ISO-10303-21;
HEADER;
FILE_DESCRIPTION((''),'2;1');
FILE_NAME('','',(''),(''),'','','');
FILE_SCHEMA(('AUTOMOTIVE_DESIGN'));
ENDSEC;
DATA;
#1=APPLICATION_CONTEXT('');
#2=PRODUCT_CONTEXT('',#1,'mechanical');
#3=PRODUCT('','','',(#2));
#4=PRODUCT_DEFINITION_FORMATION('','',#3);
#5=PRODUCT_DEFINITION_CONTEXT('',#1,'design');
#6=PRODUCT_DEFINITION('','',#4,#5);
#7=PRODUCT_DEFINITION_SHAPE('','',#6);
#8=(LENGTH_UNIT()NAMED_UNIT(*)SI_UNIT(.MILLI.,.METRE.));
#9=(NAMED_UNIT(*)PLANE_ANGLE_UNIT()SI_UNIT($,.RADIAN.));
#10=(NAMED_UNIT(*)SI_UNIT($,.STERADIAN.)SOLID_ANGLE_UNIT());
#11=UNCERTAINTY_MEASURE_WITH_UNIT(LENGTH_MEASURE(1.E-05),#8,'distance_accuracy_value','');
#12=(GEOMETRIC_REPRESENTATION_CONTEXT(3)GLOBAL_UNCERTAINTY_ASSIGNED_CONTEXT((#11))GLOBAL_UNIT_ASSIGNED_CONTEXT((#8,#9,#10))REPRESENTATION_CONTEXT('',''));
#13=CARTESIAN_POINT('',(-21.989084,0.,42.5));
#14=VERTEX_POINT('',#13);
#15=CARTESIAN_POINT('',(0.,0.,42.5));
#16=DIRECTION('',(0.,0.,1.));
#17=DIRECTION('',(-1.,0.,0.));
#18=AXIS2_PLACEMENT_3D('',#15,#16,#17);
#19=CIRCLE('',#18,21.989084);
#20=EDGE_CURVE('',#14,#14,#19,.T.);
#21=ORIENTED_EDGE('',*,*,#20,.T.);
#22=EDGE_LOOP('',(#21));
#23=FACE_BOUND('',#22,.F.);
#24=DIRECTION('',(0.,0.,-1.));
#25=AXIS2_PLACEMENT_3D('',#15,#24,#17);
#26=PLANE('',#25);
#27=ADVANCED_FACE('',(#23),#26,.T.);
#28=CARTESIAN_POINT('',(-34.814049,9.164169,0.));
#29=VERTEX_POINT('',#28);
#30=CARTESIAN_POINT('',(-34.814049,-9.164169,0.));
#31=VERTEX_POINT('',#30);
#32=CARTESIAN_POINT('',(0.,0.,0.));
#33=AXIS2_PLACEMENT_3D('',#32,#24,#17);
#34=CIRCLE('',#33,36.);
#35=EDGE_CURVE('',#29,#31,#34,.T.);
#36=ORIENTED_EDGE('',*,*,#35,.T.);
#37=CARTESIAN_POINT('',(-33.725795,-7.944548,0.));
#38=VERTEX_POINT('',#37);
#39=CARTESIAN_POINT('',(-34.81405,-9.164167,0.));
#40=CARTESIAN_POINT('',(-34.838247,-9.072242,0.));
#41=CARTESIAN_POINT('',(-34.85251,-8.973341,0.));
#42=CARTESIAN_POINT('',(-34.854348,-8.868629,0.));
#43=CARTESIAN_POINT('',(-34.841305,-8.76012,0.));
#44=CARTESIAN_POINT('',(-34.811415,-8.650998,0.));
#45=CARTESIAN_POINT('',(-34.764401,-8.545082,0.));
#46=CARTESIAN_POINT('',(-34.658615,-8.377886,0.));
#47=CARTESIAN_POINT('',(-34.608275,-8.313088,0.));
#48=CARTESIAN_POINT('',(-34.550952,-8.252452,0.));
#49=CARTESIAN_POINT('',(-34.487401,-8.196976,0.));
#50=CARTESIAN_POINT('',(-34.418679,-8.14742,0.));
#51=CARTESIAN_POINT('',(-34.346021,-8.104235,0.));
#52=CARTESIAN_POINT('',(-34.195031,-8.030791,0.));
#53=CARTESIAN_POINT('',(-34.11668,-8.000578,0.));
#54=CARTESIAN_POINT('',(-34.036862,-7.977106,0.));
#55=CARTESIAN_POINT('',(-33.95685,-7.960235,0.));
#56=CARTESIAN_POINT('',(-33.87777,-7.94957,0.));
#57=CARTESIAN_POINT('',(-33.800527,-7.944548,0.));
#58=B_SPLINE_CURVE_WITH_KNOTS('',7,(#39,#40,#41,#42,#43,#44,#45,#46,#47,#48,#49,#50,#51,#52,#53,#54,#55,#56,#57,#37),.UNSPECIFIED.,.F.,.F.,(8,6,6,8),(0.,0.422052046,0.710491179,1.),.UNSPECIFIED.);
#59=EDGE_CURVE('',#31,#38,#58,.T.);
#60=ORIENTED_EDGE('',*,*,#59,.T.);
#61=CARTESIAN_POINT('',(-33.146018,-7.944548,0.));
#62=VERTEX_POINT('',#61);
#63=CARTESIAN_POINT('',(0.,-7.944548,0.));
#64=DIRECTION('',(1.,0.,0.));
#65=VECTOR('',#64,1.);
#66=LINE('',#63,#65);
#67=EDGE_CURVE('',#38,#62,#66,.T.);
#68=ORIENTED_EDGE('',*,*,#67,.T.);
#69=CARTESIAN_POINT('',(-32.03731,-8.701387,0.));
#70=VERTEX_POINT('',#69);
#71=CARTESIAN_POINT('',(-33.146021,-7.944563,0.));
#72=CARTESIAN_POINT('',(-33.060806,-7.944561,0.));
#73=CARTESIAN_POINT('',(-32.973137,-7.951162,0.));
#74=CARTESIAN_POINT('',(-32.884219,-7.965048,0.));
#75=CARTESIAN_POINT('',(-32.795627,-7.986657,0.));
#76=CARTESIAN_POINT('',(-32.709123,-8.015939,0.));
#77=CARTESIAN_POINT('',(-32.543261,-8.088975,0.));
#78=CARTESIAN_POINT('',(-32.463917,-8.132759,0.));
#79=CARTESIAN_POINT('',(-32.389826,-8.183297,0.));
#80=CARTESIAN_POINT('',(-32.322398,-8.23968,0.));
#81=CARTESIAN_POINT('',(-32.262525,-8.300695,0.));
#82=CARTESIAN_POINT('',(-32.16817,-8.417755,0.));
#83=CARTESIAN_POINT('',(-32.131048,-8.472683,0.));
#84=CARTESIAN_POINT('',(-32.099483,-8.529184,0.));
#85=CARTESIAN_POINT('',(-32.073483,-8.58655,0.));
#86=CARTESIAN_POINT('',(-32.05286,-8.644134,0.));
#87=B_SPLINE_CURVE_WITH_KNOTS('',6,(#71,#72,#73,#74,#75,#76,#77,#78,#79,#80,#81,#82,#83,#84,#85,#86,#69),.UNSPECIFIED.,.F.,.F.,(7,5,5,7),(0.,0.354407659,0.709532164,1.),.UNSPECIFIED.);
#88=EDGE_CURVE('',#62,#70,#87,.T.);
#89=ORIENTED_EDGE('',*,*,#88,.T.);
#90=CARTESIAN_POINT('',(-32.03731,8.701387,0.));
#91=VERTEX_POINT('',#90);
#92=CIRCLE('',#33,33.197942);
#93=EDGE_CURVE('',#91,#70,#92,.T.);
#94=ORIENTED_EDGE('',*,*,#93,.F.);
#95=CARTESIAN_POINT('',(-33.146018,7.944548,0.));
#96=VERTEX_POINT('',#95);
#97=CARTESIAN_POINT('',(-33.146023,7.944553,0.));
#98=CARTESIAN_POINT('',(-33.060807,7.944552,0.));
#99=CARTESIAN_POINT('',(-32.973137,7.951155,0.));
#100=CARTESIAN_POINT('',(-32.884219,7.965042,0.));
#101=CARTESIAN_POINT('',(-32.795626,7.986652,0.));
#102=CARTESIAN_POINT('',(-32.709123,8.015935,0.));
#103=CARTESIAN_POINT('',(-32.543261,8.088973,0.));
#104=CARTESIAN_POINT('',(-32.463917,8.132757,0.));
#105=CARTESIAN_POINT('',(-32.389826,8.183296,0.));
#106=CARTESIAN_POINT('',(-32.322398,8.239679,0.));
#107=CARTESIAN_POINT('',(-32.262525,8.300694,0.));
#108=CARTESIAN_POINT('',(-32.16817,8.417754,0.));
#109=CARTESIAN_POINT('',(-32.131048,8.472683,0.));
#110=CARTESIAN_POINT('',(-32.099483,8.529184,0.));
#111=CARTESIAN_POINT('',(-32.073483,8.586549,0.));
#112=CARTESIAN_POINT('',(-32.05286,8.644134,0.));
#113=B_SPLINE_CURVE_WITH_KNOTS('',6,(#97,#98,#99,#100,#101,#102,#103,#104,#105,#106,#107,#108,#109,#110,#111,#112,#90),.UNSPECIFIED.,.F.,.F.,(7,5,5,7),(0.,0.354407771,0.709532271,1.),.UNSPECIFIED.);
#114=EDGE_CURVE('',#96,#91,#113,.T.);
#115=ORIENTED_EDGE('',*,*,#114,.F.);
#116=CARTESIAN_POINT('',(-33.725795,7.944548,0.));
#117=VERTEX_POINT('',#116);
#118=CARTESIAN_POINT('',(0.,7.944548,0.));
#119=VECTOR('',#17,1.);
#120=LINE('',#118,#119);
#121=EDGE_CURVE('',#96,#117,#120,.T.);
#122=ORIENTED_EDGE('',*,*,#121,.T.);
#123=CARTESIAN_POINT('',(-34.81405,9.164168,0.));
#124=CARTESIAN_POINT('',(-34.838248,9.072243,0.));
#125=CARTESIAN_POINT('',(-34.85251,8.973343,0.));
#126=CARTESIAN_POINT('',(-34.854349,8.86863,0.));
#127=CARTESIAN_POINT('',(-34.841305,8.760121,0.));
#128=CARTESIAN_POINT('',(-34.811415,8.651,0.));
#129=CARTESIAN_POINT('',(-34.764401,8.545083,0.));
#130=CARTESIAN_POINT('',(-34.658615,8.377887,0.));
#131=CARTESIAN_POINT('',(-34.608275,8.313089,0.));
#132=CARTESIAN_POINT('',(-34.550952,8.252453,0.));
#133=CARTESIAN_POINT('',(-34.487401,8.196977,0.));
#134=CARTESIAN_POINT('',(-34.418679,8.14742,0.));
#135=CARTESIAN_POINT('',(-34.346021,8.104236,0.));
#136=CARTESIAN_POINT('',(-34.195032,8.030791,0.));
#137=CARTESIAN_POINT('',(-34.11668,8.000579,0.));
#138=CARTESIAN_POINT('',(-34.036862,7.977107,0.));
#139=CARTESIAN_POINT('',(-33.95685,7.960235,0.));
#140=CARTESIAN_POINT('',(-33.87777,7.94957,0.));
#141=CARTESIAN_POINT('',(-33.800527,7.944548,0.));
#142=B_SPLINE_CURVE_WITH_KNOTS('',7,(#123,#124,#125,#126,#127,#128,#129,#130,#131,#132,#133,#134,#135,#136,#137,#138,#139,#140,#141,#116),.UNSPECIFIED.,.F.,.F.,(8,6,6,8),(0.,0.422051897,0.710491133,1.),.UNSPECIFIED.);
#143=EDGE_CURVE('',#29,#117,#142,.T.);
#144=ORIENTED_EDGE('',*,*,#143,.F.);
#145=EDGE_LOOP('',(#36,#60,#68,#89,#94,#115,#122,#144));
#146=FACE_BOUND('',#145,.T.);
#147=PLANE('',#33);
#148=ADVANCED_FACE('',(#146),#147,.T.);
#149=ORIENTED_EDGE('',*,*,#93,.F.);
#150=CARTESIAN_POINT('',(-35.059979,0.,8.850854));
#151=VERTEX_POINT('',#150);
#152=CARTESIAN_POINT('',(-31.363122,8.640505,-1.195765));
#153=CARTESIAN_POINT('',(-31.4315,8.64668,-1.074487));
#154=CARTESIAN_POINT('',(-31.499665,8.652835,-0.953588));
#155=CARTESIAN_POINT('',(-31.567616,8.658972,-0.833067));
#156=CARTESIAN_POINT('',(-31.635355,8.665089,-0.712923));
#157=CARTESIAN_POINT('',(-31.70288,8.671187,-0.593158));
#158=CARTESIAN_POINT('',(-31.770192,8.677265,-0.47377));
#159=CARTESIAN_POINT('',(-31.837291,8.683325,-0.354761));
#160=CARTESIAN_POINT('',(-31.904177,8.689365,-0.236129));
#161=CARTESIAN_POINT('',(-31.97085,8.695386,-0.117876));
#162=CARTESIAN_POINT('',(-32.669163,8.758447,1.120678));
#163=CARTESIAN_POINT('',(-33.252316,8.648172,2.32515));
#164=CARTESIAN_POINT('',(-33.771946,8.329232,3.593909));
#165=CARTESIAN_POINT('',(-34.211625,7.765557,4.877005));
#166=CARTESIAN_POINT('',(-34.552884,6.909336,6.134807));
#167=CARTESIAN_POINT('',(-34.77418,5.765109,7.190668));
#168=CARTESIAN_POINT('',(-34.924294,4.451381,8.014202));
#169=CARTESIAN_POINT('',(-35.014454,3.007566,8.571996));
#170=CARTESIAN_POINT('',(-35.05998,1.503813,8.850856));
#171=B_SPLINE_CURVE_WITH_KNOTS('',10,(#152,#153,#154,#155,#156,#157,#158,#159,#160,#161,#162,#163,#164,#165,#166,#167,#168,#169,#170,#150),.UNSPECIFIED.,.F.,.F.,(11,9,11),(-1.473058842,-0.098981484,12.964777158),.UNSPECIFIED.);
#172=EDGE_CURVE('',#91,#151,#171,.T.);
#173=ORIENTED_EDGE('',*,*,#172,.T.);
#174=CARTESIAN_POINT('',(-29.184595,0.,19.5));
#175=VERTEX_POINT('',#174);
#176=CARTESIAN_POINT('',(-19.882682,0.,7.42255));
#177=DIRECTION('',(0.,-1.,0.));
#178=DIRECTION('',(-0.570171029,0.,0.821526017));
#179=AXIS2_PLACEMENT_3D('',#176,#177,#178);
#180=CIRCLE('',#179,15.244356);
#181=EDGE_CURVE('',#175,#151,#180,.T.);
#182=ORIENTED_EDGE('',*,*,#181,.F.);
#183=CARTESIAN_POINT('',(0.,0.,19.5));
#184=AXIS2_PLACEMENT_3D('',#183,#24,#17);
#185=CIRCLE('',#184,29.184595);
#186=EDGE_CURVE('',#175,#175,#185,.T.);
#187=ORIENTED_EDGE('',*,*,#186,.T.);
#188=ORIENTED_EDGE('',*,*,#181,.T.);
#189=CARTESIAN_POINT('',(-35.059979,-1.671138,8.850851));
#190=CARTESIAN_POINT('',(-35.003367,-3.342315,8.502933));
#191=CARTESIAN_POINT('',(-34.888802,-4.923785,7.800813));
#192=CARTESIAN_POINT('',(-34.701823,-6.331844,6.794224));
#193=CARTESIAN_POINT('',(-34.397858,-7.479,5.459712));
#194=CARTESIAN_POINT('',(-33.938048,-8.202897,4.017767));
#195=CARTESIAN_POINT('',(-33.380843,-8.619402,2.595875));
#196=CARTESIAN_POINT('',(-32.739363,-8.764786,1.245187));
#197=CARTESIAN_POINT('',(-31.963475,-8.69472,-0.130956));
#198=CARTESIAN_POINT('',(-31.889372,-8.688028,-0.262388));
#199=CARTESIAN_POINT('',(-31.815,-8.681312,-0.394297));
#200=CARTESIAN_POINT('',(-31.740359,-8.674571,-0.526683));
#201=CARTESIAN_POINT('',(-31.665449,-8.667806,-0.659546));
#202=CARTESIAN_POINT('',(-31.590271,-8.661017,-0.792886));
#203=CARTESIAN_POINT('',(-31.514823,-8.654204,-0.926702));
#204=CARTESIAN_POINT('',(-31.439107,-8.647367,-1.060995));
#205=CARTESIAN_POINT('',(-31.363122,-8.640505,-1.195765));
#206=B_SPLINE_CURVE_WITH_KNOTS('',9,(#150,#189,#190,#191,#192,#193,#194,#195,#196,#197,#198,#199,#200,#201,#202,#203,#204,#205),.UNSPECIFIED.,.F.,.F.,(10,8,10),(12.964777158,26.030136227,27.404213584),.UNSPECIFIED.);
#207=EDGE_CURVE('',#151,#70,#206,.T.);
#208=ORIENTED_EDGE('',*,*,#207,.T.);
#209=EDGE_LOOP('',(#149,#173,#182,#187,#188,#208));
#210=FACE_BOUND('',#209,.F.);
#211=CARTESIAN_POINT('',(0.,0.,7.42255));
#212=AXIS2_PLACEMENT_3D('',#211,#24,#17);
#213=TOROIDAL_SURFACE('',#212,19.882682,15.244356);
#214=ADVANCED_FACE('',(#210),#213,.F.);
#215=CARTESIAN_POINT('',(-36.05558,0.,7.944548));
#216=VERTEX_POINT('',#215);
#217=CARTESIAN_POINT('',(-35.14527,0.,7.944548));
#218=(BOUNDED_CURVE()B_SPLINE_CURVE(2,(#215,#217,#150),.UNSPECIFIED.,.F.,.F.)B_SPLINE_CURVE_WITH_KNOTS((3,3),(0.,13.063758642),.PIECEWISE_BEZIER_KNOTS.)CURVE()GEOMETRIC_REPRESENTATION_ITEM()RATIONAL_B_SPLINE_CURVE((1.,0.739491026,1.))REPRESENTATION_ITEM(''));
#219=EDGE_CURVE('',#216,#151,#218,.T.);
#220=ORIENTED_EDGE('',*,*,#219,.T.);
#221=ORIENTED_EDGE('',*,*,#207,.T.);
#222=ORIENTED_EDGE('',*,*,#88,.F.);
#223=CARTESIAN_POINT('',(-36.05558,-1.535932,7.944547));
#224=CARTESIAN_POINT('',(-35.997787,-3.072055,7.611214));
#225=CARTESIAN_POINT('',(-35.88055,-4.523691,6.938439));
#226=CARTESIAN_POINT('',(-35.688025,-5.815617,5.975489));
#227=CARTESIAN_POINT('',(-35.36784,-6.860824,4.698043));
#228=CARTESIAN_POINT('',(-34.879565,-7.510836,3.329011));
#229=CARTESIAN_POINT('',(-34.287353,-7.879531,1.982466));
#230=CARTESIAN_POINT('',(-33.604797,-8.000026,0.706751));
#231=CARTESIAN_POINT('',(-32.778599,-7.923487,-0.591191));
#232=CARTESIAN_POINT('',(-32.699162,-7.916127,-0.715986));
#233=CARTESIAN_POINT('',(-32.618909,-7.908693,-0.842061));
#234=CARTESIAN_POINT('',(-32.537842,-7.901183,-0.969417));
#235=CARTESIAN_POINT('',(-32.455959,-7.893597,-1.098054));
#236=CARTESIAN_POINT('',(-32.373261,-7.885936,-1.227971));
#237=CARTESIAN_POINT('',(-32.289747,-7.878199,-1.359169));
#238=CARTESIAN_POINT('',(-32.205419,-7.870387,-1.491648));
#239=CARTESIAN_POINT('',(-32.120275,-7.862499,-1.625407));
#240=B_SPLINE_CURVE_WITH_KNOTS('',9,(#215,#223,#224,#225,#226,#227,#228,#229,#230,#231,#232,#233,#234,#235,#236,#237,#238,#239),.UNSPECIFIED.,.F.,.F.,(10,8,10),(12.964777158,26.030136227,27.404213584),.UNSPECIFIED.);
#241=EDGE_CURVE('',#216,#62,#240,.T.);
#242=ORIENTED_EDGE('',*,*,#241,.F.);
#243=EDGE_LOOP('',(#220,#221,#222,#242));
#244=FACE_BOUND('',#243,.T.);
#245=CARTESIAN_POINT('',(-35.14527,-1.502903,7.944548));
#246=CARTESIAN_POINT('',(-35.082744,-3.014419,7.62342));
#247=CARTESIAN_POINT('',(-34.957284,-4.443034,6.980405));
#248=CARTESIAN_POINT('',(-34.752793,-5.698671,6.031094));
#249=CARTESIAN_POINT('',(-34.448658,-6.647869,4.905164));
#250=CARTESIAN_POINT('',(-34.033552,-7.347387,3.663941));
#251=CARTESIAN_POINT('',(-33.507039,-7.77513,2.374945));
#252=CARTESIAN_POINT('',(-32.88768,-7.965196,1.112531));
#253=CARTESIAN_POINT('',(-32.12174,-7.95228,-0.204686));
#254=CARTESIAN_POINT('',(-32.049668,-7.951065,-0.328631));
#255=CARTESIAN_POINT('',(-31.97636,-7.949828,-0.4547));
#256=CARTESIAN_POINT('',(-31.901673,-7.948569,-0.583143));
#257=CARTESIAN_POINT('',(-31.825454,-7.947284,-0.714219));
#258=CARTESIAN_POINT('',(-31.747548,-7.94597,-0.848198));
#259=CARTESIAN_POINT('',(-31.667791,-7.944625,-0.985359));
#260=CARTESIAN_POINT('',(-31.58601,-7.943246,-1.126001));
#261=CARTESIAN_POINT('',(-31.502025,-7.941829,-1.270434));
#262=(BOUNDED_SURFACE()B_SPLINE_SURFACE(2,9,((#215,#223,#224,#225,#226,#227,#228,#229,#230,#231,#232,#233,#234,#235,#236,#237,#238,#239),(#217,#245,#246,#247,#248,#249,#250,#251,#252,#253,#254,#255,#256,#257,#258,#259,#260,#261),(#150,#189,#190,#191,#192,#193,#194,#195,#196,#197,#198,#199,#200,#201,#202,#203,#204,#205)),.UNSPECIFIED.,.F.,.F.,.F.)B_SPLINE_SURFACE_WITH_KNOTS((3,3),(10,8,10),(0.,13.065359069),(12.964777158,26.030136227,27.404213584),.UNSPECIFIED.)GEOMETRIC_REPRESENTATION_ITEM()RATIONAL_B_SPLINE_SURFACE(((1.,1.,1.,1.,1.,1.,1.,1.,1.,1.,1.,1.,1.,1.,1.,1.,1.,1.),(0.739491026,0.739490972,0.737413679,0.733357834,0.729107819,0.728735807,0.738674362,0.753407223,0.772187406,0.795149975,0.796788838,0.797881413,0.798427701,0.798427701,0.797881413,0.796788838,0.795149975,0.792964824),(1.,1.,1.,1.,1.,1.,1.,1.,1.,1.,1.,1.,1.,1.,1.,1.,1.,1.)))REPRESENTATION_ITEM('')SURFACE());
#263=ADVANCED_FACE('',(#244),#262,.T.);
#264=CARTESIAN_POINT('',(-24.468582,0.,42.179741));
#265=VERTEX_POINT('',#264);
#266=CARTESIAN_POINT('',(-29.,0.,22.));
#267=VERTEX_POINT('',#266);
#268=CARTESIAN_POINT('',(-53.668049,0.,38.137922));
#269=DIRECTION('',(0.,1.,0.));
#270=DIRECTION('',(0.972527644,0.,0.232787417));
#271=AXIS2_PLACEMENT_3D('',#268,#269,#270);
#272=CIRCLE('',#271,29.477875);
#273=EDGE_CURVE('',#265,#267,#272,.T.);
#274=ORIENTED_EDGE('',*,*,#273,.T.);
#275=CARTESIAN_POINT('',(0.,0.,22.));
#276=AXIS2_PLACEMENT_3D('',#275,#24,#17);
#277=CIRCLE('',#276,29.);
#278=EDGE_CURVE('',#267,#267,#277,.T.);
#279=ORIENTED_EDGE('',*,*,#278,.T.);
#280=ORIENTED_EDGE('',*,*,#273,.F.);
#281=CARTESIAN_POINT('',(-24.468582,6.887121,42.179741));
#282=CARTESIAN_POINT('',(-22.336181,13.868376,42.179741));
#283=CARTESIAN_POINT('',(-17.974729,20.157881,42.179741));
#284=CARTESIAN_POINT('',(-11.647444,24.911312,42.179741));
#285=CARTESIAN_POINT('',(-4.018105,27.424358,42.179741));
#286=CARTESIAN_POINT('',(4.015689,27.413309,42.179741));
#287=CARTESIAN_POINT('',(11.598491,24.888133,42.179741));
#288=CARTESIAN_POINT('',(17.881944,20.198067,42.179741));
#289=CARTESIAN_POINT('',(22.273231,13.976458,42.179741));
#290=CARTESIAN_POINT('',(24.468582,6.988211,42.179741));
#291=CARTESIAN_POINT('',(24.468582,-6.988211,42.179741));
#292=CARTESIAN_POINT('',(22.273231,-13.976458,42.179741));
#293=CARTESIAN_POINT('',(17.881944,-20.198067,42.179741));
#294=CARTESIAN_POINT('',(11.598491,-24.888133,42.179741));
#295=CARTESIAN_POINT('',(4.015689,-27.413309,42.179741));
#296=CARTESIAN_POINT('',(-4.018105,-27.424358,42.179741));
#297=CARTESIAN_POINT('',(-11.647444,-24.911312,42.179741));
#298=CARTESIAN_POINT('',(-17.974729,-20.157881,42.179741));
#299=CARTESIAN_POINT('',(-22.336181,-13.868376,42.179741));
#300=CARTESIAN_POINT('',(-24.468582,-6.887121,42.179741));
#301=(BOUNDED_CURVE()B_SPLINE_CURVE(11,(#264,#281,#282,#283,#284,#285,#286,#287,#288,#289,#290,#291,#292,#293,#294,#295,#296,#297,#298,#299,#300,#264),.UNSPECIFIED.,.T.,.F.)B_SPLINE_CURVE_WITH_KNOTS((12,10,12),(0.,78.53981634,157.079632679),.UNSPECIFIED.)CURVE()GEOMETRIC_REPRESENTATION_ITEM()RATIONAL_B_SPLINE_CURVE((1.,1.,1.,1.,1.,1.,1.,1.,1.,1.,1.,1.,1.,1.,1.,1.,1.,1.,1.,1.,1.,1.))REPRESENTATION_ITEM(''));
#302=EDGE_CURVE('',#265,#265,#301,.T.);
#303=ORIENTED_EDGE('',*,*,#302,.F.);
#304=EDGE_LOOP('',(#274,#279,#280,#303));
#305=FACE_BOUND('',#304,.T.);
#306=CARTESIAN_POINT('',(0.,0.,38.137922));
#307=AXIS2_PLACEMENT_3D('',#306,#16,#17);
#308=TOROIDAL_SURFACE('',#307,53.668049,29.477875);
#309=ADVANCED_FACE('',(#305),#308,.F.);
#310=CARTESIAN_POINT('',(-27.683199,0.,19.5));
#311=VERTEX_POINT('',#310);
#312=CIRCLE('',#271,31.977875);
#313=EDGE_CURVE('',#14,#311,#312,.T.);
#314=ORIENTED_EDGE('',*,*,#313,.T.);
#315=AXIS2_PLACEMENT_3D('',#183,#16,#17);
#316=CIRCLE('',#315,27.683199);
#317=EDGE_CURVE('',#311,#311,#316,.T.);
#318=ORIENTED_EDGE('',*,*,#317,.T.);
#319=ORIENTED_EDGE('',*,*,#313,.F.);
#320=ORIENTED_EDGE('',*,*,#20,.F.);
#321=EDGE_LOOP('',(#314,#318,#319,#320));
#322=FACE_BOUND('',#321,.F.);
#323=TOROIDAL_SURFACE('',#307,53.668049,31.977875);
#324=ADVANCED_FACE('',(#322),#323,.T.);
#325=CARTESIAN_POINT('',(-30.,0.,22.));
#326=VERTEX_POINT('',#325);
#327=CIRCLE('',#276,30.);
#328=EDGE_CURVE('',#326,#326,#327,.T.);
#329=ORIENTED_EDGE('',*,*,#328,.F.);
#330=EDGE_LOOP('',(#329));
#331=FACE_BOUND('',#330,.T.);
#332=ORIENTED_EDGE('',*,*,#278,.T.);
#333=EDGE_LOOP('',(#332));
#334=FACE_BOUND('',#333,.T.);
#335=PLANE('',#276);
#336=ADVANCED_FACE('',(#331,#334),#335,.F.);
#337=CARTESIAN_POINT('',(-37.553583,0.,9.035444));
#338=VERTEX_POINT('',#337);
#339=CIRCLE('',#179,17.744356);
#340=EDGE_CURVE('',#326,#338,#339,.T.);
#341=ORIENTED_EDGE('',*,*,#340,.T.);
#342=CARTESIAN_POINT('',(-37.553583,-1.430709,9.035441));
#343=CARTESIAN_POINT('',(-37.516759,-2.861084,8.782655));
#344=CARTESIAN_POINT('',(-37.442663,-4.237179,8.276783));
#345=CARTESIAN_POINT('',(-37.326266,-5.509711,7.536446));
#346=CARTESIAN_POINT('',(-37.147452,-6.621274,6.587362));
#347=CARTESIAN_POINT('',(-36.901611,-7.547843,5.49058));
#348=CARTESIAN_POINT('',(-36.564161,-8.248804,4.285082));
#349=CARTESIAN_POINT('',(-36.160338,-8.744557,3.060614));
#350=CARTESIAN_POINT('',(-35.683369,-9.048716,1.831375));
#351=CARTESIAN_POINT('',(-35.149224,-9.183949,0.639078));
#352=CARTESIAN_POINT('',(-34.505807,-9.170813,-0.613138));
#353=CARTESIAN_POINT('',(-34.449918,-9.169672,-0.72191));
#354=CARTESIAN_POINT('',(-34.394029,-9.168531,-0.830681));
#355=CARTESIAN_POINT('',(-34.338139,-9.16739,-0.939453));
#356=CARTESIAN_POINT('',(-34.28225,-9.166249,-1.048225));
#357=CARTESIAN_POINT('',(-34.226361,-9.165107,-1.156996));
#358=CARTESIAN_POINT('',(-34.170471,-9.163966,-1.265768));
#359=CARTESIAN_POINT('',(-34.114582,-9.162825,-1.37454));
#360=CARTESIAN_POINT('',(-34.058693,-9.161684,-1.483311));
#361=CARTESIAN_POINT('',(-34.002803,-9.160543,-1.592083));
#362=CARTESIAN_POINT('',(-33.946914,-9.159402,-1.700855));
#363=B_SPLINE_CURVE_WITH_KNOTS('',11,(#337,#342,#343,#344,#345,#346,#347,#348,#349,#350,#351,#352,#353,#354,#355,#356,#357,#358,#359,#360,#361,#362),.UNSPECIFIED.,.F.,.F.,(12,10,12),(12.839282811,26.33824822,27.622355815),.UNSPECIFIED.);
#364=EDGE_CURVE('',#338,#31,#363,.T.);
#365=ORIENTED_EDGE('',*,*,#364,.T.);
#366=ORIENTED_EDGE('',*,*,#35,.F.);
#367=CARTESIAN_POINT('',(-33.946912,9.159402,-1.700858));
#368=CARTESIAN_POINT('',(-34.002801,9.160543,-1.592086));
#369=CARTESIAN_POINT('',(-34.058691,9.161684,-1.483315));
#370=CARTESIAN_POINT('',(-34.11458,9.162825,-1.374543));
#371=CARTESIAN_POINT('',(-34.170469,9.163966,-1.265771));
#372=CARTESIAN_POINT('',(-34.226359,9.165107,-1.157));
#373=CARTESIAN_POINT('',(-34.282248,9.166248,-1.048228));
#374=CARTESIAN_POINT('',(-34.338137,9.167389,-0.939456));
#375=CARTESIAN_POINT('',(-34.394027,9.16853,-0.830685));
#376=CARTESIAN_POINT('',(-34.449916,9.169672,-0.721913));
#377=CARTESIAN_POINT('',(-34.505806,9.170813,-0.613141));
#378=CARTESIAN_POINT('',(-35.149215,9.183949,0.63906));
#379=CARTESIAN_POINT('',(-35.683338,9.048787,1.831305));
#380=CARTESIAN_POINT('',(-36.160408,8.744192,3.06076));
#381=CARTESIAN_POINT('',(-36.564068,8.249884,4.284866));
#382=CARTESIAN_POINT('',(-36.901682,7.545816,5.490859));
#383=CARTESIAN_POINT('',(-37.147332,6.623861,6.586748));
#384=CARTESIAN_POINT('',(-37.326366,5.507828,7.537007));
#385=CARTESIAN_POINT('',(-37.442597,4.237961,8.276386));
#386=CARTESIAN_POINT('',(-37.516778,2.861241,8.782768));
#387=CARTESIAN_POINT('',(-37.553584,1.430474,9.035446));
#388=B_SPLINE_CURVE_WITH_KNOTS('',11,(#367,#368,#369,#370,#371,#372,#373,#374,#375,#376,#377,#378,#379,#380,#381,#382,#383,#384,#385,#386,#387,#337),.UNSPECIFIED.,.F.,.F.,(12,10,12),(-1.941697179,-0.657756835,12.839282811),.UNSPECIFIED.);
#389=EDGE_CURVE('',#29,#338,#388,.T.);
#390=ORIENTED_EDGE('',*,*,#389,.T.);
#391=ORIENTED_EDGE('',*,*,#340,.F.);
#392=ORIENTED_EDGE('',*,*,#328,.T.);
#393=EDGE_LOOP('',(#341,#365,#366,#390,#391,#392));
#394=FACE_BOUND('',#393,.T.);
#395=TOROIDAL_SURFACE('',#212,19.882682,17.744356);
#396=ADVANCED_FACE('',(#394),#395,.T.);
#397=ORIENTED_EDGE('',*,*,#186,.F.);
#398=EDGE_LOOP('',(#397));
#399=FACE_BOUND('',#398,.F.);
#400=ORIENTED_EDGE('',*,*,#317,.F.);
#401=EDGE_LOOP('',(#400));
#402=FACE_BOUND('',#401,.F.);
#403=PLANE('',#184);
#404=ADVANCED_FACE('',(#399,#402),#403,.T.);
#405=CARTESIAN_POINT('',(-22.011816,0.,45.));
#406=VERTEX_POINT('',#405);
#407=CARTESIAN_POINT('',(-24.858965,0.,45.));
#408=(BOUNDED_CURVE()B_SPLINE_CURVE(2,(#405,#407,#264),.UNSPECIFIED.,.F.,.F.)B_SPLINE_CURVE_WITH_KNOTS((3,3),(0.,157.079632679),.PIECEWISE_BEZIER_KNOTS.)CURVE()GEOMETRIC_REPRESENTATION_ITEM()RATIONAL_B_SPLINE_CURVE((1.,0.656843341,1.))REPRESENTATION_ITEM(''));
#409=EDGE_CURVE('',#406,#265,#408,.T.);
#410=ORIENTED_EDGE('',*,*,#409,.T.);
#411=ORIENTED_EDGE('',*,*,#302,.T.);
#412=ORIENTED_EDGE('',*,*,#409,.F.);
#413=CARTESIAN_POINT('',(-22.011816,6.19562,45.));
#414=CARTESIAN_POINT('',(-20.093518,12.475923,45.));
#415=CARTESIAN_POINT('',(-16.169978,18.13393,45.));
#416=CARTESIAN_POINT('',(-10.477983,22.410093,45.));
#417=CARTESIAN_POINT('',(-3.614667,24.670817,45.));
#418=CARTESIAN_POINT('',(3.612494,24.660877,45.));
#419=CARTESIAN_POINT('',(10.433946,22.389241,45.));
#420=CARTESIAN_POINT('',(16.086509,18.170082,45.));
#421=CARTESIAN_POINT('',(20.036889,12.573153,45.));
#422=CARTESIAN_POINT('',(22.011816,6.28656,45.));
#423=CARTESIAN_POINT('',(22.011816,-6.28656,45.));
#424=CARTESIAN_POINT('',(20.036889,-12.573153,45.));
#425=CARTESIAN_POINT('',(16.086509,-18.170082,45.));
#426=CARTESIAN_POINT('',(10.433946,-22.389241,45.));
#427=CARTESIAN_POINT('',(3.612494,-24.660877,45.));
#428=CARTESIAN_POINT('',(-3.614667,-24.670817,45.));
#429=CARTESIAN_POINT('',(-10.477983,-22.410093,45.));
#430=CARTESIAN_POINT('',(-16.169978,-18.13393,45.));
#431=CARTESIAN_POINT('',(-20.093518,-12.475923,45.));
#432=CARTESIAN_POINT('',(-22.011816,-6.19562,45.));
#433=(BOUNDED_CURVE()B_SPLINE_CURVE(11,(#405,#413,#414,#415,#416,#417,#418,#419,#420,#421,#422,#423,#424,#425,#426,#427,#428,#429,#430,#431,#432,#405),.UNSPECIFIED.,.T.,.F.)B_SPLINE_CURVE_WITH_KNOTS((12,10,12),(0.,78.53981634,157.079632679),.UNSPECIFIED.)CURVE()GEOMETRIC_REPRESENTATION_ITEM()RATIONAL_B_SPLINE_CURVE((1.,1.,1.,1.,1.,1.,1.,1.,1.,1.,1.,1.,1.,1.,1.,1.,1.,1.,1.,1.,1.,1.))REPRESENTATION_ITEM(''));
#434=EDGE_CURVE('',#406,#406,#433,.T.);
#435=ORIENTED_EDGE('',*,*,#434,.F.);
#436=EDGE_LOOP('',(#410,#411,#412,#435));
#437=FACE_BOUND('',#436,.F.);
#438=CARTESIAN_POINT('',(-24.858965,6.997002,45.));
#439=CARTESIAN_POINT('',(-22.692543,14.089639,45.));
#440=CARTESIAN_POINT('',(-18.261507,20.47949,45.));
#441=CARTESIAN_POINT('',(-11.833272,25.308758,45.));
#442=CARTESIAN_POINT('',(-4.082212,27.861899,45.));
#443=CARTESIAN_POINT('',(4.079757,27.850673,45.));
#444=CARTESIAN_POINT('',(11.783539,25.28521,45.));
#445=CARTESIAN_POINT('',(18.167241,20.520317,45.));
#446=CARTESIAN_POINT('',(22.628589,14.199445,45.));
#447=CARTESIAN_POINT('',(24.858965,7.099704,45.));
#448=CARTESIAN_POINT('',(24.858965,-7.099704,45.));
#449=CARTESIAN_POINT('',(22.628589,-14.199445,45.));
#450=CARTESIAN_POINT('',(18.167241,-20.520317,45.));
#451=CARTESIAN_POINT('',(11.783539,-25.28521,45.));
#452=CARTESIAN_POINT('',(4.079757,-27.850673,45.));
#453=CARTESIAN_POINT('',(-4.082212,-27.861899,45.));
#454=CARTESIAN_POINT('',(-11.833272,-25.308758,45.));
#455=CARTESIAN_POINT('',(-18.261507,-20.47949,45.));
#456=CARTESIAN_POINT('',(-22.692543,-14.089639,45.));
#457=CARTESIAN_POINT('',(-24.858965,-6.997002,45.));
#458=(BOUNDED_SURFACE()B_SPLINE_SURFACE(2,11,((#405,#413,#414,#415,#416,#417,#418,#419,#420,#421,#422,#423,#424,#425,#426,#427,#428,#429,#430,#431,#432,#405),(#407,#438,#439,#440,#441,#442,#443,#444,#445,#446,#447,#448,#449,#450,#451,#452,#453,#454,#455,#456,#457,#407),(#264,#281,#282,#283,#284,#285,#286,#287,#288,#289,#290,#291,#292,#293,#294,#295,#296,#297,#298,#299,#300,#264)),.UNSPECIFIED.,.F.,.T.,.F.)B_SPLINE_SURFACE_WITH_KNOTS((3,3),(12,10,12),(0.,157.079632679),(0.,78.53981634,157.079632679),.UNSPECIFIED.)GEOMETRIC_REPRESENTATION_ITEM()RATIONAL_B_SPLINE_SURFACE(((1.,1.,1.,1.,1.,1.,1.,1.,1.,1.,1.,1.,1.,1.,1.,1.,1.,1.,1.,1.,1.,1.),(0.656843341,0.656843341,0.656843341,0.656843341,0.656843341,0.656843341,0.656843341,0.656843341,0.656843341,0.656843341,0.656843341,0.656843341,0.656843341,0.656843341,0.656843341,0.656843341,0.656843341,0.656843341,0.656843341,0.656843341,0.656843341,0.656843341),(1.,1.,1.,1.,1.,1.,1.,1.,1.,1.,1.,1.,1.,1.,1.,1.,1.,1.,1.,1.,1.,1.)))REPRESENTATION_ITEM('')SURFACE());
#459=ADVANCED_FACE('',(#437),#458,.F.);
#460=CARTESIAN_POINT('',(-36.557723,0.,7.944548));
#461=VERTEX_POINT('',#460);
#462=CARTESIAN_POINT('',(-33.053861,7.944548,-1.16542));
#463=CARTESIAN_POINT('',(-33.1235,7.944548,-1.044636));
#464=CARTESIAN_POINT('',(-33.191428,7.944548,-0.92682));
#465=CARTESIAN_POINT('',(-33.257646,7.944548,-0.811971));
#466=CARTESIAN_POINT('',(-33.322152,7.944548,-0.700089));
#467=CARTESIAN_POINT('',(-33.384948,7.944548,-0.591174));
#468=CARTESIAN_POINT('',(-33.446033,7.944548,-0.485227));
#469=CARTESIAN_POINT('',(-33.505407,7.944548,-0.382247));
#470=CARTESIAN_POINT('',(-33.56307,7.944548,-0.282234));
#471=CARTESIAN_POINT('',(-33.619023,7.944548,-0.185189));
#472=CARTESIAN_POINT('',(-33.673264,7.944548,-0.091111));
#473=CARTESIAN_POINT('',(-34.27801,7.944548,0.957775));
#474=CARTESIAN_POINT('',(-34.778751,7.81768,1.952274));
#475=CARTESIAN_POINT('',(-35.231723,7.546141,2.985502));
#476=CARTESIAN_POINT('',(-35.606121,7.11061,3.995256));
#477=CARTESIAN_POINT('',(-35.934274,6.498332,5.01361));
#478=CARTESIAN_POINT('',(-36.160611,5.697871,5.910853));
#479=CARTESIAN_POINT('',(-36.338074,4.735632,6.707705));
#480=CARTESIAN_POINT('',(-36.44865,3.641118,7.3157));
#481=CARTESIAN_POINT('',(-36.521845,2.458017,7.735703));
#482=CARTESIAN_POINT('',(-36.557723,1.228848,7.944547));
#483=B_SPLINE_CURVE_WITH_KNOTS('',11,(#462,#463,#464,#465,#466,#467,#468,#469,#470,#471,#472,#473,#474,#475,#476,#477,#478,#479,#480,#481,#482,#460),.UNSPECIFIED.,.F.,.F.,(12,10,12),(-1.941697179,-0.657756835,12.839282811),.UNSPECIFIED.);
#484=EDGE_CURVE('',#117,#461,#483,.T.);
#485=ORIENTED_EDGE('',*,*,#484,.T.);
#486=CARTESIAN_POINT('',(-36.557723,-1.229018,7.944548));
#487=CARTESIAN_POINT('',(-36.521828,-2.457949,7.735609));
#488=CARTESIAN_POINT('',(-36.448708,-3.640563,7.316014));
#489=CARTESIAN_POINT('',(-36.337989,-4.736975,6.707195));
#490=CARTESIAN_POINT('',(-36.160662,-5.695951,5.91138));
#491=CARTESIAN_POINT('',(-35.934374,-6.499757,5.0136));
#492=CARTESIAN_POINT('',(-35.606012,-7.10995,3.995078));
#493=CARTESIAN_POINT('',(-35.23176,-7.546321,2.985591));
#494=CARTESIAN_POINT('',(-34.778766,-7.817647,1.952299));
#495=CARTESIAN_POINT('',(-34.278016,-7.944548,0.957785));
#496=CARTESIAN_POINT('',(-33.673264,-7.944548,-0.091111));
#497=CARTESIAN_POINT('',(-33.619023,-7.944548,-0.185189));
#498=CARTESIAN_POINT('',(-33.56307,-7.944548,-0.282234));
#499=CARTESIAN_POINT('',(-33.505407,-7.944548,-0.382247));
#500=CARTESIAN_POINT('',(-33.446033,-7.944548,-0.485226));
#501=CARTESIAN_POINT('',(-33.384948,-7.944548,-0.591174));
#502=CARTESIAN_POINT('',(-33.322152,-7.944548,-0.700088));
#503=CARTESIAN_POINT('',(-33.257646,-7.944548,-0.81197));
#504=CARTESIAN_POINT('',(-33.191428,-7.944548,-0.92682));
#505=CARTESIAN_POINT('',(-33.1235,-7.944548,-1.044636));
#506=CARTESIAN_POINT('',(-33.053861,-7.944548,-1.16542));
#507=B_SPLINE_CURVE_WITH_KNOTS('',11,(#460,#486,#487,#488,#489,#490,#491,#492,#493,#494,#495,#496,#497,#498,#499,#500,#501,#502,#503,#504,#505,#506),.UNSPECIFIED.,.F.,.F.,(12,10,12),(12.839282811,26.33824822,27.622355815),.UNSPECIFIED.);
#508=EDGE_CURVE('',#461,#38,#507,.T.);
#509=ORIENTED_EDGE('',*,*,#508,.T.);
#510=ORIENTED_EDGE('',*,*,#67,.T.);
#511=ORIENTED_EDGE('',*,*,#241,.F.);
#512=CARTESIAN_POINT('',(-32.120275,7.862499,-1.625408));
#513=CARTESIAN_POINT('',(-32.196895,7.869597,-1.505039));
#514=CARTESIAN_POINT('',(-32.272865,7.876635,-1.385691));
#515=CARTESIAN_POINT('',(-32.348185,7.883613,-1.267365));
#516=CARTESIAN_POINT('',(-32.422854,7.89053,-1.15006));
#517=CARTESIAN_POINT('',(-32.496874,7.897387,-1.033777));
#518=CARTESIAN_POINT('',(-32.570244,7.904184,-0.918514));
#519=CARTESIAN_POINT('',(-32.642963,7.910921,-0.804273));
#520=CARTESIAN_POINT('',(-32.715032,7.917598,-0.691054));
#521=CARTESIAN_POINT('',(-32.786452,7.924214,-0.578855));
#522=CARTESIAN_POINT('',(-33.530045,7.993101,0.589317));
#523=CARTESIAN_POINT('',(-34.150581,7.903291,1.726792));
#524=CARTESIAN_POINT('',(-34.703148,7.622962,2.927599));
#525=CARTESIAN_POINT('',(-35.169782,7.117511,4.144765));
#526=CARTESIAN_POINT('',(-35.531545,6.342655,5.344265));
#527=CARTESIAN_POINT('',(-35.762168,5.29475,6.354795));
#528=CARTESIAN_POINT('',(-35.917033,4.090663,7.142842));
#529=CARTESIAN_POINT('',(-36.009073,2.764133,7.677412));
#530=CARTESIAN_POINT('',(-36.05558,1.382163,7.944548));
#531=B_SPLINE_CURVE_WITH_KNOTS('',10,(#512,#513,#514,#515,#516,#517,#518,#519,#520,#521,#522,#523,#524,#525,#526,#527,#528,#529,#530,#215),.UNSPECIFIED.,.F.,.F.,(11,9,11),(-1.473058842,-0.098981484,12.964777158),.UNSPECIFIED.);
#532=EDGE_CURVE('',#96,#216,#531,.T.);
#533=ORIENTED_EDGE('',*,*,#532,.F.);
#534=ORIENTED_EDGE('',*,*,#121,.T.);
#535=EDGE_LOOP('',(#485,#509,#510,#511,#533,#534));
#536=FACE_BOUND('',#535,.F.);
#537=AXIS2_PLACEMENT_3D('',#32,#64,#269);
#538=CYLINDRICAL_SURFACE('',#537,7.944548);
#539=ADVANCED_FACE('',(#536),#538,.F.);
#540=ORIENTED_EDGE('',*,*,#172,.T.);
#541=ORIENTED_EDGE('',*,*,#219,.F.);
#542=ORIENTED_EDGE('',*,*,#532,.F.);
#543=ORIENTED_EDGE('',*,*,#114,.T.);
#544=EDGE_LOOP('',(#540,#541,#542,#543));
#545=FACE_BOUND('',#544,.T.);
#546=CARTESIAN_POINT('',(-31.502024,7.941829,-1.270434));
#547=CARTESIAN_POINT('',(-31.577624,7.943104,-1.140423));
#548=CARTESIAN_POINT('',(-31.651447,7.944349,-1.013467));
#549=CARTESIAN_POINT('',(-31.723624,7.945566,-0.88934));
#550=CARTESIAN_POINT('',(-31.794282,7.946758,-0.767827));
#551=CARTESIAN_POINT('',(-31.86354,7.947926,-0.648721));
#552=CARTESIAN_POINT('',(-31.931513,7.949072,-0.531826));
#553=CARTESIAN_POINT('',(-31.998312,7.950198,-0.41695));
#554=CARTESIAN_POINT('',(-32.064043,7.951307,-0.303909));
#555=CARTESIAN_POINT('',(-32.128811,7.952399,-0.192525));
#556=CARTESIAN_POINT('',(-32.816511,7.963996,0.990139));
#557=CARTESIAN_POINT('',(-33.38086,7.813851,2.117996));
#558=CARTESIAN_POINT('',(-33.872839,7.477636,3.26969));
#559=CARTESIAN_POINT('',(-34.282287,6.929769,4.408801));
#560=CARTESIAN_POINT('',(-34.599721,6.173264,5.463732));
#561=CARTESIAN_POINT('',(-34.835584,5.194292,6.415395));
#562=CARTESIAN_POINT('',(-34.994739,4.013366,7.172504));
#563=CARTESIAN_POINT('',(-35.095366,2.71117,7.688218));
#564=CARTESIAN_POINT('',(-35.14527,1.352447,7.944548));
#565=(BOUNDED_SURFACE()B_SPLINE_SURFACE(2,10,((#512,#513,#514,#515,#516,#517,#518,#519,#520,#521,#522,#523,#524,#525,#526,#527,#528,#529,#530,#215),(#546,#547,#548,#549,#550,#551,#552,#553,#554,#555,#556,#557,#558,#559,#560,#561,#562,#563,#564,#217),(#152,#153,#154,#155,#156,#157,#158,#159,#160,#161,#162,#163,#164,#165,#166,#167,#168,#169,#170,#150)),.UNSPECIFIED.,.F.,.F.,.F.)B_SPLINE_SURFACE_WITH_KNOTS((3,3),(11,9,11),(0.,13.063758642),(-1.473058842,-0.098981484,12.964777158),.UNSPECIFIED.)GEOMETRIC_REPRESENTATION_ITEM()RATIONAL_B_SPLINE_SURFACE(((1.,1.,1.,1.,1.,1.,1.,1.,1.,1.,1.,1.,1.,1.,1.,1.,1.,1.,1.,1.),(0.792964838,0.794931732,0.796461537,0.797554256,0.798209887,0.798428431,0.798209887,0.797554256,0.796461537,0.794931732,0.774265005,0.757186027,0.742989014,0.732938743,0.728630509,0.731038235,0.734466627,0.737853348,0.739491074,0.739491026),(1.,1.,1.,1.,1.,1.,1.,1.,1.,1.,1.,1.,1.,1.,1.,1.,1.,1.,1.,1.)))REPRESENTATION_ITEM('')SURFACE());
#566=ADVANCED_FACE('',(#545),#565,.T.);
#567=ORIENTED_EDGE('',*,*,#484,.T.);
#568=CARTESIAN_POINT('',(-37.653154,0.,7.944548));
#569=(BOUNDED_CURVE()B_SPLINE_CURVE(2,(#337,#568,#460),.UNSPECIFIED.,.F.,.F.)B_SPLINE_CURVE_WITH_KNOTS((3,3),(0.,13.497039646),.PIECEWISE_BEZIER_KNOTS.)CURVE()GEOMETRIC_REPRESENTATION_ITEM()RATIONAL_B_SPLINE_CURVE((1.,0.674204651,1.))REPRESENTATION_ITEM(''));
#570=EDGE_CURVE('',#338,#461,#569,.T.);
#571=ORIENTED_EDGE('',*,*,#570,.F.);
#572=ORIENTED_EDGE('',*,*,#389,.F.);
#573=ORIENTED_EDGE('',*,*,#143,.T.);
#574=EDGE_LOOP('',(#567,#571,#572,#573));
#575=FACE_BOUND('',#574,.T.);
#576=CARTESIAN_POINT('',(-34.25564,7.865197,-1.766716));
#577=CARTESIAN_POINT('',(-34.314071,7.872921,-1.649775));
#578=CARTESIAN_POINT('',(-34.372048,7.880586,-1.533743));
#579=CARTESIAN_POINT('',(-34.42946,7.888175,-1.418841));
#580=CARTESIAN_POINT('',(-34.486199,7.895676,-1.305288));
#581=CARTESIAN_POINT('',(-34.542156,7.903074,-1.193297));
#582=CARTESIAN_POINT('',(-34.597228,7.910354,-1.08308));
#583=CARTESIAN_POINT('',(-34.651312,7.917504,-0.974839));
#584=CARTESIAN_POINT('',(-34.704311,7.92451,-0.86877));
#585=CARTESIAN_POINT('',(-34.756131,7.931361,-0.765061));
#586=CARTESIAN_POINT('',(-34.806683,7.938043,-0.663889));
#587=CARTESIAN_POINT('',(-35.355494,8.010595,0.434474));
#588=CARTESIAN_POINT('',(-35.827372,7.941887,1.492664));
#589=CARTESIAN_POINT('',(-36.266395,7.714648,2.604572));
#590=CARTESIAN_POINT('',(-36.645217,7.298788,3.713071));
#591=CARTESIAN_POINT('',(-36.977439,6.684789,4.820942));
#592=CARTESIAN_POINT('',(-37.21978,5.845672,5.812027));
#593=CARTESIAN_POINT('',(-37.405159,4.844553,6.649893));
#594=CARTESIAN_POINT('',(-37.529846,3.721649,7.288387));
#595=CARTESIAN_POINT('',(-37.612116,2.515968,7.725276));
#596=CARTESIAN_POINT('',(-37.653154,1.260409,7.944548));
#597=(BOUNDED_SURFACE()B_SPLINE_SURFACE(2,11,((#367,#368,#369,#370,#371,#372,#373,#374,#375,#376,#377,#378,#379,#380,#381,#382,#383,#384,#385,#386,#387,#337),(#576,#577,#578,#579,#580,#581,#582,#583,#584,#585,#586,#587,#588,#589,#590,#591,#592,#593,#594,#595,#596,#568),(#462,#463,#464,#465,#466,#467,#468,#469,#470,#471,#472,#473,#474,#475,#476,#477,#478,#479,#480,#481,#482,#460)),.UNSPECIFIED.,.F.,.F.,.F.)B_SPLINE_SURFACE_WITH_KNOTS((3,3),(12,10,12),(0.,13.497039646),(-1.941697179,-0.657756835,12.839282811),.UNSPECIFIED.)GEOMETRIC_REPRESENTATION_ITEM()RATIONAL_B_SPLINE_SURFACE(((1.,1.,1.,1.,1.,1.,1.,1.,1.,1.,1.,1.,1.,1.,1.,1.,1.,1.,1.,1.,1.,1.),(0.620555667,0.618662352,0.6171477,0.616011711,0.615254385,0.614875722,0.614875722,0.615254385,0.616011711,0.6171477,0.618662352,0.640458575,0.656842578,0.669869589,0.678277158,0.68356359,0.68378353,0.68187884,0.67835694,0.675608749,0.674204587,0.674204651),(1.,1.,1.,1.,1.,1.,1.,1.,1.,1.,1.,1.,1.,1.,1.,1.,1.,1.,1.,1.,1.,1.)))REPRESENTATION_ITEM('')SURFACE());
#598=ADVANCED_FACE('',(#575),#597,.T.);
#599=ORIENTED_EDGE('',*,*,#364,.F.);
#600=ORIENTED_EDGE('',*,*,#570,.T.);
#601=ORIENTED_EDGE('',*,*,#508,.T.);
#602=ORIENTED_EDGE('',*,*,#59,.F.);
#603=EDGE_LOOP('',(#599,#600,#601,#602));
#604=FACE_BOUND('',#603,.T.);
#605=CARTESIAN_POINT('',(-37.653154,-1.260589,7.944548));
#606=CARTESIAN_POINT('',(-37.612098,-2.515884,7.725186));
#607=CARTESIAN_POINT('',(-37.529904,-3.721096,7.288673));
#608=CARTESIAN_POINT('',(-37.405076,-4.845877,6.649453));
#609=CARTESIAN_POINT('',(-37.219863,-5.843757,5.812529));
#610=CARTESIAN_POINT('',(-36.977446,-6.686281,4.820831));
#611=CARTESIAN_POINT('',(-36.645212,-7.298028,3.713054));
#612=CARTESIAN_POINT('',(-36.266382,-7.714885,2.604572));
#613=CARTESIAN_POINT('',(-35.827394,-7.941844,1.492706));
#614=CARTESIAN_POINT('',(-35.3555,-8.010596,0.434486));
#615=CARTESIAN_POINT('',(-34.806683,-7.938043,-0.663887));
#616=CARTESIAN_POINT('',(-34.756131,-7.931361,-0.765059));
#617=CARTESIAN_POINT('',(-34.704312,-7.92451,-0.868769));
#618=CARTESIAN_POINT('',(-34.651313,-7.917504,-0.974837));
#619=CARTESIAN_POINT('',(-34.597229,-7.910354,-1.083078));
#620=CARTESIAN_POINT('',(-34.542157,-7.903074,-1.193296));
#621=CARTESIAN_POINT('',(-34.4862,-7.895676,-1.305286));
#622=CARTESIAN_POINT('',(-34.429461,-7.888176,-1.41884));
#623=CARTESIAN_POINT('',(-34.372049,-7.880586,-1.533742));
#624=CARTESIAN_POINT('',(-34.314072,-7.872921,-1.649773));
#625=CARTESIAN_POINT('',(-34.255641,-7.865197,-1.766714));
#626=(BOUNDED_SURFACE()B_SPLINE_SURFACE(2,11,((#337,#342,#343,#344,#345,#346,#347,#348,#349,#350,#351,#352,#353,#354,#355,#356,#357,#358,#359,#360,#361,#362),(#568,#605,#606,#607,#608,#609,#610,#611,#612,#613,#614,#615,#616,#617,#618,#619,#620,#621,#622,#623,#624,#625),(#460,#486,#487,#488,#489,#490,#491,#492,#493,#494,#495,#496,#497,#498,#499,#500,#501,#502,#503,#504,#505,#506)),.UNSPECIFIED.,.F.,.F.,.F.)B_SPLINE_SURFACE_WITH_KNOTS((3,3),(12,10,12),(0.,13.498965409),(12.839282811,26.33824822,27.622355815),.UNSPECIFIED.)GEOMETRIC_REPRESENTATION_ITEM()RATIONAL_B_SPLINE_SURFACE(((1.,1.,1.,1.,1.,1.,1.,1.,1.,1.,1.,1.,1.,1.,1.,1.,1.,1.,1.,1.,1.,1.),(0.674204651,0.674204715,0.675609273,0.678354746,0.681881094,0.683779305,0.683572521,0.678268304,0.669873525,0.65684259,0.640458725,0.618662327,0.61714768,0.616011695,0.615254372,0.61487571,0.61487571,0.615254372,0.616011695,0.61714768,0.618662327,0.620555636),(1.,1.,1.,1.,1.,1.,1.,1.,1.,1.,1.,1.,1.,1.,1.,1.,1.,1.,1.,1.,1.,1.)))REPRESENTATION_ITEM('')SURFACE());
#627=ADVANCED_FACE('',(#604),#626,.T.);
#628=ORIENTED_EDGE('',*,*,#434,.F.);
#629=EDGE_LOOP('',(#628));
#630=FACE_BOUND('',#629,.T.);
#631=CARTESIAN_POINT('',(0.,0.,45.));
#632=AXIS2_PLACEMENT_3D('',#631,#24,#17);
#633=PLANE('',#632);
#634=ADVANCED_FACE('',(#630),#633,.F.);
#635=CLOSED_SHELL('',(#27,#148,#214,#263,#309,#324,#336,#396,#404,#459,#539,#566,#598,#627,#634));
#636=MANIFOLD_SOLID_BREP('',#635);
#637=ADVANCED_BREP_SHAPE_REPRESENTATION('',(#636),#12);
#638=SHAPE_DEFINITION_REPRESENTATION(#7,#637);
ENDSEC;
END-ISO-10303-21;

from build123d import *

# Parameters (mm, degrees)
F2_T     = -2.5
F3_R     = 2.4801912713
F4_R     = 7.9445476456
F5_DEPTH = 121.4
F6_R     = 1


with BuildPart() as f1:
    # F0 (on Front) → F1 (revolve)
    with BuildSketch(Plane.XZ):
        with BuildLine():
            Line((-36, 0), (0, 0))
            Line((0, 0), (0, 45))
            Line((0, 45), (-25, 45))
            ThreePointArc((-25, 45), (-24.6260993655, 33.0871477157), (-29, 22))
            Line((-29, 22), (-30, 22))
            ThreePointArc((-30, 22), (-37.0017950758, 12.091398657), (-36, 0))
        make_face()
    revolve(axis=Axis((0, 0, 22.5), (0, 0, -1)))

    # F2
    f2_openings = [f1.faces().sort_by_distance(p)[0] for p in [
        (0, 0, 0),
    ]]
    offset(amount=F2_T, openings=f2_openings, kind=Kind.INTERSECTION)

    # F3
    f3_edges = [f1.edges().sort_by_distance(p)[0] for p in [
        (25, 0, 45),
    ]]
    fillet(f3_edges, radius=F3_R)

    # F4 (on Right) → F5 (cut)
    with BuildSketch(Plane.YZ):
        Circle(F4_R)
    extrude(amount=-F5_DEPTH, mode=Mode.SUBTRACT)

    # F6
    f6_edges = [f1.edges().sort_by_distance(p)[0] for p in [
        (-37.084919, 5.722187, 5.511117),
        (-37.084919, -5.722187, 5.511117),
        (-34.524365, 5.760394, 5.47117),
        (-34.524365, -5.760394, 5.47117),
    ]]
    fillet(f6_edges, radius=F6_R)


solid = f1.part
